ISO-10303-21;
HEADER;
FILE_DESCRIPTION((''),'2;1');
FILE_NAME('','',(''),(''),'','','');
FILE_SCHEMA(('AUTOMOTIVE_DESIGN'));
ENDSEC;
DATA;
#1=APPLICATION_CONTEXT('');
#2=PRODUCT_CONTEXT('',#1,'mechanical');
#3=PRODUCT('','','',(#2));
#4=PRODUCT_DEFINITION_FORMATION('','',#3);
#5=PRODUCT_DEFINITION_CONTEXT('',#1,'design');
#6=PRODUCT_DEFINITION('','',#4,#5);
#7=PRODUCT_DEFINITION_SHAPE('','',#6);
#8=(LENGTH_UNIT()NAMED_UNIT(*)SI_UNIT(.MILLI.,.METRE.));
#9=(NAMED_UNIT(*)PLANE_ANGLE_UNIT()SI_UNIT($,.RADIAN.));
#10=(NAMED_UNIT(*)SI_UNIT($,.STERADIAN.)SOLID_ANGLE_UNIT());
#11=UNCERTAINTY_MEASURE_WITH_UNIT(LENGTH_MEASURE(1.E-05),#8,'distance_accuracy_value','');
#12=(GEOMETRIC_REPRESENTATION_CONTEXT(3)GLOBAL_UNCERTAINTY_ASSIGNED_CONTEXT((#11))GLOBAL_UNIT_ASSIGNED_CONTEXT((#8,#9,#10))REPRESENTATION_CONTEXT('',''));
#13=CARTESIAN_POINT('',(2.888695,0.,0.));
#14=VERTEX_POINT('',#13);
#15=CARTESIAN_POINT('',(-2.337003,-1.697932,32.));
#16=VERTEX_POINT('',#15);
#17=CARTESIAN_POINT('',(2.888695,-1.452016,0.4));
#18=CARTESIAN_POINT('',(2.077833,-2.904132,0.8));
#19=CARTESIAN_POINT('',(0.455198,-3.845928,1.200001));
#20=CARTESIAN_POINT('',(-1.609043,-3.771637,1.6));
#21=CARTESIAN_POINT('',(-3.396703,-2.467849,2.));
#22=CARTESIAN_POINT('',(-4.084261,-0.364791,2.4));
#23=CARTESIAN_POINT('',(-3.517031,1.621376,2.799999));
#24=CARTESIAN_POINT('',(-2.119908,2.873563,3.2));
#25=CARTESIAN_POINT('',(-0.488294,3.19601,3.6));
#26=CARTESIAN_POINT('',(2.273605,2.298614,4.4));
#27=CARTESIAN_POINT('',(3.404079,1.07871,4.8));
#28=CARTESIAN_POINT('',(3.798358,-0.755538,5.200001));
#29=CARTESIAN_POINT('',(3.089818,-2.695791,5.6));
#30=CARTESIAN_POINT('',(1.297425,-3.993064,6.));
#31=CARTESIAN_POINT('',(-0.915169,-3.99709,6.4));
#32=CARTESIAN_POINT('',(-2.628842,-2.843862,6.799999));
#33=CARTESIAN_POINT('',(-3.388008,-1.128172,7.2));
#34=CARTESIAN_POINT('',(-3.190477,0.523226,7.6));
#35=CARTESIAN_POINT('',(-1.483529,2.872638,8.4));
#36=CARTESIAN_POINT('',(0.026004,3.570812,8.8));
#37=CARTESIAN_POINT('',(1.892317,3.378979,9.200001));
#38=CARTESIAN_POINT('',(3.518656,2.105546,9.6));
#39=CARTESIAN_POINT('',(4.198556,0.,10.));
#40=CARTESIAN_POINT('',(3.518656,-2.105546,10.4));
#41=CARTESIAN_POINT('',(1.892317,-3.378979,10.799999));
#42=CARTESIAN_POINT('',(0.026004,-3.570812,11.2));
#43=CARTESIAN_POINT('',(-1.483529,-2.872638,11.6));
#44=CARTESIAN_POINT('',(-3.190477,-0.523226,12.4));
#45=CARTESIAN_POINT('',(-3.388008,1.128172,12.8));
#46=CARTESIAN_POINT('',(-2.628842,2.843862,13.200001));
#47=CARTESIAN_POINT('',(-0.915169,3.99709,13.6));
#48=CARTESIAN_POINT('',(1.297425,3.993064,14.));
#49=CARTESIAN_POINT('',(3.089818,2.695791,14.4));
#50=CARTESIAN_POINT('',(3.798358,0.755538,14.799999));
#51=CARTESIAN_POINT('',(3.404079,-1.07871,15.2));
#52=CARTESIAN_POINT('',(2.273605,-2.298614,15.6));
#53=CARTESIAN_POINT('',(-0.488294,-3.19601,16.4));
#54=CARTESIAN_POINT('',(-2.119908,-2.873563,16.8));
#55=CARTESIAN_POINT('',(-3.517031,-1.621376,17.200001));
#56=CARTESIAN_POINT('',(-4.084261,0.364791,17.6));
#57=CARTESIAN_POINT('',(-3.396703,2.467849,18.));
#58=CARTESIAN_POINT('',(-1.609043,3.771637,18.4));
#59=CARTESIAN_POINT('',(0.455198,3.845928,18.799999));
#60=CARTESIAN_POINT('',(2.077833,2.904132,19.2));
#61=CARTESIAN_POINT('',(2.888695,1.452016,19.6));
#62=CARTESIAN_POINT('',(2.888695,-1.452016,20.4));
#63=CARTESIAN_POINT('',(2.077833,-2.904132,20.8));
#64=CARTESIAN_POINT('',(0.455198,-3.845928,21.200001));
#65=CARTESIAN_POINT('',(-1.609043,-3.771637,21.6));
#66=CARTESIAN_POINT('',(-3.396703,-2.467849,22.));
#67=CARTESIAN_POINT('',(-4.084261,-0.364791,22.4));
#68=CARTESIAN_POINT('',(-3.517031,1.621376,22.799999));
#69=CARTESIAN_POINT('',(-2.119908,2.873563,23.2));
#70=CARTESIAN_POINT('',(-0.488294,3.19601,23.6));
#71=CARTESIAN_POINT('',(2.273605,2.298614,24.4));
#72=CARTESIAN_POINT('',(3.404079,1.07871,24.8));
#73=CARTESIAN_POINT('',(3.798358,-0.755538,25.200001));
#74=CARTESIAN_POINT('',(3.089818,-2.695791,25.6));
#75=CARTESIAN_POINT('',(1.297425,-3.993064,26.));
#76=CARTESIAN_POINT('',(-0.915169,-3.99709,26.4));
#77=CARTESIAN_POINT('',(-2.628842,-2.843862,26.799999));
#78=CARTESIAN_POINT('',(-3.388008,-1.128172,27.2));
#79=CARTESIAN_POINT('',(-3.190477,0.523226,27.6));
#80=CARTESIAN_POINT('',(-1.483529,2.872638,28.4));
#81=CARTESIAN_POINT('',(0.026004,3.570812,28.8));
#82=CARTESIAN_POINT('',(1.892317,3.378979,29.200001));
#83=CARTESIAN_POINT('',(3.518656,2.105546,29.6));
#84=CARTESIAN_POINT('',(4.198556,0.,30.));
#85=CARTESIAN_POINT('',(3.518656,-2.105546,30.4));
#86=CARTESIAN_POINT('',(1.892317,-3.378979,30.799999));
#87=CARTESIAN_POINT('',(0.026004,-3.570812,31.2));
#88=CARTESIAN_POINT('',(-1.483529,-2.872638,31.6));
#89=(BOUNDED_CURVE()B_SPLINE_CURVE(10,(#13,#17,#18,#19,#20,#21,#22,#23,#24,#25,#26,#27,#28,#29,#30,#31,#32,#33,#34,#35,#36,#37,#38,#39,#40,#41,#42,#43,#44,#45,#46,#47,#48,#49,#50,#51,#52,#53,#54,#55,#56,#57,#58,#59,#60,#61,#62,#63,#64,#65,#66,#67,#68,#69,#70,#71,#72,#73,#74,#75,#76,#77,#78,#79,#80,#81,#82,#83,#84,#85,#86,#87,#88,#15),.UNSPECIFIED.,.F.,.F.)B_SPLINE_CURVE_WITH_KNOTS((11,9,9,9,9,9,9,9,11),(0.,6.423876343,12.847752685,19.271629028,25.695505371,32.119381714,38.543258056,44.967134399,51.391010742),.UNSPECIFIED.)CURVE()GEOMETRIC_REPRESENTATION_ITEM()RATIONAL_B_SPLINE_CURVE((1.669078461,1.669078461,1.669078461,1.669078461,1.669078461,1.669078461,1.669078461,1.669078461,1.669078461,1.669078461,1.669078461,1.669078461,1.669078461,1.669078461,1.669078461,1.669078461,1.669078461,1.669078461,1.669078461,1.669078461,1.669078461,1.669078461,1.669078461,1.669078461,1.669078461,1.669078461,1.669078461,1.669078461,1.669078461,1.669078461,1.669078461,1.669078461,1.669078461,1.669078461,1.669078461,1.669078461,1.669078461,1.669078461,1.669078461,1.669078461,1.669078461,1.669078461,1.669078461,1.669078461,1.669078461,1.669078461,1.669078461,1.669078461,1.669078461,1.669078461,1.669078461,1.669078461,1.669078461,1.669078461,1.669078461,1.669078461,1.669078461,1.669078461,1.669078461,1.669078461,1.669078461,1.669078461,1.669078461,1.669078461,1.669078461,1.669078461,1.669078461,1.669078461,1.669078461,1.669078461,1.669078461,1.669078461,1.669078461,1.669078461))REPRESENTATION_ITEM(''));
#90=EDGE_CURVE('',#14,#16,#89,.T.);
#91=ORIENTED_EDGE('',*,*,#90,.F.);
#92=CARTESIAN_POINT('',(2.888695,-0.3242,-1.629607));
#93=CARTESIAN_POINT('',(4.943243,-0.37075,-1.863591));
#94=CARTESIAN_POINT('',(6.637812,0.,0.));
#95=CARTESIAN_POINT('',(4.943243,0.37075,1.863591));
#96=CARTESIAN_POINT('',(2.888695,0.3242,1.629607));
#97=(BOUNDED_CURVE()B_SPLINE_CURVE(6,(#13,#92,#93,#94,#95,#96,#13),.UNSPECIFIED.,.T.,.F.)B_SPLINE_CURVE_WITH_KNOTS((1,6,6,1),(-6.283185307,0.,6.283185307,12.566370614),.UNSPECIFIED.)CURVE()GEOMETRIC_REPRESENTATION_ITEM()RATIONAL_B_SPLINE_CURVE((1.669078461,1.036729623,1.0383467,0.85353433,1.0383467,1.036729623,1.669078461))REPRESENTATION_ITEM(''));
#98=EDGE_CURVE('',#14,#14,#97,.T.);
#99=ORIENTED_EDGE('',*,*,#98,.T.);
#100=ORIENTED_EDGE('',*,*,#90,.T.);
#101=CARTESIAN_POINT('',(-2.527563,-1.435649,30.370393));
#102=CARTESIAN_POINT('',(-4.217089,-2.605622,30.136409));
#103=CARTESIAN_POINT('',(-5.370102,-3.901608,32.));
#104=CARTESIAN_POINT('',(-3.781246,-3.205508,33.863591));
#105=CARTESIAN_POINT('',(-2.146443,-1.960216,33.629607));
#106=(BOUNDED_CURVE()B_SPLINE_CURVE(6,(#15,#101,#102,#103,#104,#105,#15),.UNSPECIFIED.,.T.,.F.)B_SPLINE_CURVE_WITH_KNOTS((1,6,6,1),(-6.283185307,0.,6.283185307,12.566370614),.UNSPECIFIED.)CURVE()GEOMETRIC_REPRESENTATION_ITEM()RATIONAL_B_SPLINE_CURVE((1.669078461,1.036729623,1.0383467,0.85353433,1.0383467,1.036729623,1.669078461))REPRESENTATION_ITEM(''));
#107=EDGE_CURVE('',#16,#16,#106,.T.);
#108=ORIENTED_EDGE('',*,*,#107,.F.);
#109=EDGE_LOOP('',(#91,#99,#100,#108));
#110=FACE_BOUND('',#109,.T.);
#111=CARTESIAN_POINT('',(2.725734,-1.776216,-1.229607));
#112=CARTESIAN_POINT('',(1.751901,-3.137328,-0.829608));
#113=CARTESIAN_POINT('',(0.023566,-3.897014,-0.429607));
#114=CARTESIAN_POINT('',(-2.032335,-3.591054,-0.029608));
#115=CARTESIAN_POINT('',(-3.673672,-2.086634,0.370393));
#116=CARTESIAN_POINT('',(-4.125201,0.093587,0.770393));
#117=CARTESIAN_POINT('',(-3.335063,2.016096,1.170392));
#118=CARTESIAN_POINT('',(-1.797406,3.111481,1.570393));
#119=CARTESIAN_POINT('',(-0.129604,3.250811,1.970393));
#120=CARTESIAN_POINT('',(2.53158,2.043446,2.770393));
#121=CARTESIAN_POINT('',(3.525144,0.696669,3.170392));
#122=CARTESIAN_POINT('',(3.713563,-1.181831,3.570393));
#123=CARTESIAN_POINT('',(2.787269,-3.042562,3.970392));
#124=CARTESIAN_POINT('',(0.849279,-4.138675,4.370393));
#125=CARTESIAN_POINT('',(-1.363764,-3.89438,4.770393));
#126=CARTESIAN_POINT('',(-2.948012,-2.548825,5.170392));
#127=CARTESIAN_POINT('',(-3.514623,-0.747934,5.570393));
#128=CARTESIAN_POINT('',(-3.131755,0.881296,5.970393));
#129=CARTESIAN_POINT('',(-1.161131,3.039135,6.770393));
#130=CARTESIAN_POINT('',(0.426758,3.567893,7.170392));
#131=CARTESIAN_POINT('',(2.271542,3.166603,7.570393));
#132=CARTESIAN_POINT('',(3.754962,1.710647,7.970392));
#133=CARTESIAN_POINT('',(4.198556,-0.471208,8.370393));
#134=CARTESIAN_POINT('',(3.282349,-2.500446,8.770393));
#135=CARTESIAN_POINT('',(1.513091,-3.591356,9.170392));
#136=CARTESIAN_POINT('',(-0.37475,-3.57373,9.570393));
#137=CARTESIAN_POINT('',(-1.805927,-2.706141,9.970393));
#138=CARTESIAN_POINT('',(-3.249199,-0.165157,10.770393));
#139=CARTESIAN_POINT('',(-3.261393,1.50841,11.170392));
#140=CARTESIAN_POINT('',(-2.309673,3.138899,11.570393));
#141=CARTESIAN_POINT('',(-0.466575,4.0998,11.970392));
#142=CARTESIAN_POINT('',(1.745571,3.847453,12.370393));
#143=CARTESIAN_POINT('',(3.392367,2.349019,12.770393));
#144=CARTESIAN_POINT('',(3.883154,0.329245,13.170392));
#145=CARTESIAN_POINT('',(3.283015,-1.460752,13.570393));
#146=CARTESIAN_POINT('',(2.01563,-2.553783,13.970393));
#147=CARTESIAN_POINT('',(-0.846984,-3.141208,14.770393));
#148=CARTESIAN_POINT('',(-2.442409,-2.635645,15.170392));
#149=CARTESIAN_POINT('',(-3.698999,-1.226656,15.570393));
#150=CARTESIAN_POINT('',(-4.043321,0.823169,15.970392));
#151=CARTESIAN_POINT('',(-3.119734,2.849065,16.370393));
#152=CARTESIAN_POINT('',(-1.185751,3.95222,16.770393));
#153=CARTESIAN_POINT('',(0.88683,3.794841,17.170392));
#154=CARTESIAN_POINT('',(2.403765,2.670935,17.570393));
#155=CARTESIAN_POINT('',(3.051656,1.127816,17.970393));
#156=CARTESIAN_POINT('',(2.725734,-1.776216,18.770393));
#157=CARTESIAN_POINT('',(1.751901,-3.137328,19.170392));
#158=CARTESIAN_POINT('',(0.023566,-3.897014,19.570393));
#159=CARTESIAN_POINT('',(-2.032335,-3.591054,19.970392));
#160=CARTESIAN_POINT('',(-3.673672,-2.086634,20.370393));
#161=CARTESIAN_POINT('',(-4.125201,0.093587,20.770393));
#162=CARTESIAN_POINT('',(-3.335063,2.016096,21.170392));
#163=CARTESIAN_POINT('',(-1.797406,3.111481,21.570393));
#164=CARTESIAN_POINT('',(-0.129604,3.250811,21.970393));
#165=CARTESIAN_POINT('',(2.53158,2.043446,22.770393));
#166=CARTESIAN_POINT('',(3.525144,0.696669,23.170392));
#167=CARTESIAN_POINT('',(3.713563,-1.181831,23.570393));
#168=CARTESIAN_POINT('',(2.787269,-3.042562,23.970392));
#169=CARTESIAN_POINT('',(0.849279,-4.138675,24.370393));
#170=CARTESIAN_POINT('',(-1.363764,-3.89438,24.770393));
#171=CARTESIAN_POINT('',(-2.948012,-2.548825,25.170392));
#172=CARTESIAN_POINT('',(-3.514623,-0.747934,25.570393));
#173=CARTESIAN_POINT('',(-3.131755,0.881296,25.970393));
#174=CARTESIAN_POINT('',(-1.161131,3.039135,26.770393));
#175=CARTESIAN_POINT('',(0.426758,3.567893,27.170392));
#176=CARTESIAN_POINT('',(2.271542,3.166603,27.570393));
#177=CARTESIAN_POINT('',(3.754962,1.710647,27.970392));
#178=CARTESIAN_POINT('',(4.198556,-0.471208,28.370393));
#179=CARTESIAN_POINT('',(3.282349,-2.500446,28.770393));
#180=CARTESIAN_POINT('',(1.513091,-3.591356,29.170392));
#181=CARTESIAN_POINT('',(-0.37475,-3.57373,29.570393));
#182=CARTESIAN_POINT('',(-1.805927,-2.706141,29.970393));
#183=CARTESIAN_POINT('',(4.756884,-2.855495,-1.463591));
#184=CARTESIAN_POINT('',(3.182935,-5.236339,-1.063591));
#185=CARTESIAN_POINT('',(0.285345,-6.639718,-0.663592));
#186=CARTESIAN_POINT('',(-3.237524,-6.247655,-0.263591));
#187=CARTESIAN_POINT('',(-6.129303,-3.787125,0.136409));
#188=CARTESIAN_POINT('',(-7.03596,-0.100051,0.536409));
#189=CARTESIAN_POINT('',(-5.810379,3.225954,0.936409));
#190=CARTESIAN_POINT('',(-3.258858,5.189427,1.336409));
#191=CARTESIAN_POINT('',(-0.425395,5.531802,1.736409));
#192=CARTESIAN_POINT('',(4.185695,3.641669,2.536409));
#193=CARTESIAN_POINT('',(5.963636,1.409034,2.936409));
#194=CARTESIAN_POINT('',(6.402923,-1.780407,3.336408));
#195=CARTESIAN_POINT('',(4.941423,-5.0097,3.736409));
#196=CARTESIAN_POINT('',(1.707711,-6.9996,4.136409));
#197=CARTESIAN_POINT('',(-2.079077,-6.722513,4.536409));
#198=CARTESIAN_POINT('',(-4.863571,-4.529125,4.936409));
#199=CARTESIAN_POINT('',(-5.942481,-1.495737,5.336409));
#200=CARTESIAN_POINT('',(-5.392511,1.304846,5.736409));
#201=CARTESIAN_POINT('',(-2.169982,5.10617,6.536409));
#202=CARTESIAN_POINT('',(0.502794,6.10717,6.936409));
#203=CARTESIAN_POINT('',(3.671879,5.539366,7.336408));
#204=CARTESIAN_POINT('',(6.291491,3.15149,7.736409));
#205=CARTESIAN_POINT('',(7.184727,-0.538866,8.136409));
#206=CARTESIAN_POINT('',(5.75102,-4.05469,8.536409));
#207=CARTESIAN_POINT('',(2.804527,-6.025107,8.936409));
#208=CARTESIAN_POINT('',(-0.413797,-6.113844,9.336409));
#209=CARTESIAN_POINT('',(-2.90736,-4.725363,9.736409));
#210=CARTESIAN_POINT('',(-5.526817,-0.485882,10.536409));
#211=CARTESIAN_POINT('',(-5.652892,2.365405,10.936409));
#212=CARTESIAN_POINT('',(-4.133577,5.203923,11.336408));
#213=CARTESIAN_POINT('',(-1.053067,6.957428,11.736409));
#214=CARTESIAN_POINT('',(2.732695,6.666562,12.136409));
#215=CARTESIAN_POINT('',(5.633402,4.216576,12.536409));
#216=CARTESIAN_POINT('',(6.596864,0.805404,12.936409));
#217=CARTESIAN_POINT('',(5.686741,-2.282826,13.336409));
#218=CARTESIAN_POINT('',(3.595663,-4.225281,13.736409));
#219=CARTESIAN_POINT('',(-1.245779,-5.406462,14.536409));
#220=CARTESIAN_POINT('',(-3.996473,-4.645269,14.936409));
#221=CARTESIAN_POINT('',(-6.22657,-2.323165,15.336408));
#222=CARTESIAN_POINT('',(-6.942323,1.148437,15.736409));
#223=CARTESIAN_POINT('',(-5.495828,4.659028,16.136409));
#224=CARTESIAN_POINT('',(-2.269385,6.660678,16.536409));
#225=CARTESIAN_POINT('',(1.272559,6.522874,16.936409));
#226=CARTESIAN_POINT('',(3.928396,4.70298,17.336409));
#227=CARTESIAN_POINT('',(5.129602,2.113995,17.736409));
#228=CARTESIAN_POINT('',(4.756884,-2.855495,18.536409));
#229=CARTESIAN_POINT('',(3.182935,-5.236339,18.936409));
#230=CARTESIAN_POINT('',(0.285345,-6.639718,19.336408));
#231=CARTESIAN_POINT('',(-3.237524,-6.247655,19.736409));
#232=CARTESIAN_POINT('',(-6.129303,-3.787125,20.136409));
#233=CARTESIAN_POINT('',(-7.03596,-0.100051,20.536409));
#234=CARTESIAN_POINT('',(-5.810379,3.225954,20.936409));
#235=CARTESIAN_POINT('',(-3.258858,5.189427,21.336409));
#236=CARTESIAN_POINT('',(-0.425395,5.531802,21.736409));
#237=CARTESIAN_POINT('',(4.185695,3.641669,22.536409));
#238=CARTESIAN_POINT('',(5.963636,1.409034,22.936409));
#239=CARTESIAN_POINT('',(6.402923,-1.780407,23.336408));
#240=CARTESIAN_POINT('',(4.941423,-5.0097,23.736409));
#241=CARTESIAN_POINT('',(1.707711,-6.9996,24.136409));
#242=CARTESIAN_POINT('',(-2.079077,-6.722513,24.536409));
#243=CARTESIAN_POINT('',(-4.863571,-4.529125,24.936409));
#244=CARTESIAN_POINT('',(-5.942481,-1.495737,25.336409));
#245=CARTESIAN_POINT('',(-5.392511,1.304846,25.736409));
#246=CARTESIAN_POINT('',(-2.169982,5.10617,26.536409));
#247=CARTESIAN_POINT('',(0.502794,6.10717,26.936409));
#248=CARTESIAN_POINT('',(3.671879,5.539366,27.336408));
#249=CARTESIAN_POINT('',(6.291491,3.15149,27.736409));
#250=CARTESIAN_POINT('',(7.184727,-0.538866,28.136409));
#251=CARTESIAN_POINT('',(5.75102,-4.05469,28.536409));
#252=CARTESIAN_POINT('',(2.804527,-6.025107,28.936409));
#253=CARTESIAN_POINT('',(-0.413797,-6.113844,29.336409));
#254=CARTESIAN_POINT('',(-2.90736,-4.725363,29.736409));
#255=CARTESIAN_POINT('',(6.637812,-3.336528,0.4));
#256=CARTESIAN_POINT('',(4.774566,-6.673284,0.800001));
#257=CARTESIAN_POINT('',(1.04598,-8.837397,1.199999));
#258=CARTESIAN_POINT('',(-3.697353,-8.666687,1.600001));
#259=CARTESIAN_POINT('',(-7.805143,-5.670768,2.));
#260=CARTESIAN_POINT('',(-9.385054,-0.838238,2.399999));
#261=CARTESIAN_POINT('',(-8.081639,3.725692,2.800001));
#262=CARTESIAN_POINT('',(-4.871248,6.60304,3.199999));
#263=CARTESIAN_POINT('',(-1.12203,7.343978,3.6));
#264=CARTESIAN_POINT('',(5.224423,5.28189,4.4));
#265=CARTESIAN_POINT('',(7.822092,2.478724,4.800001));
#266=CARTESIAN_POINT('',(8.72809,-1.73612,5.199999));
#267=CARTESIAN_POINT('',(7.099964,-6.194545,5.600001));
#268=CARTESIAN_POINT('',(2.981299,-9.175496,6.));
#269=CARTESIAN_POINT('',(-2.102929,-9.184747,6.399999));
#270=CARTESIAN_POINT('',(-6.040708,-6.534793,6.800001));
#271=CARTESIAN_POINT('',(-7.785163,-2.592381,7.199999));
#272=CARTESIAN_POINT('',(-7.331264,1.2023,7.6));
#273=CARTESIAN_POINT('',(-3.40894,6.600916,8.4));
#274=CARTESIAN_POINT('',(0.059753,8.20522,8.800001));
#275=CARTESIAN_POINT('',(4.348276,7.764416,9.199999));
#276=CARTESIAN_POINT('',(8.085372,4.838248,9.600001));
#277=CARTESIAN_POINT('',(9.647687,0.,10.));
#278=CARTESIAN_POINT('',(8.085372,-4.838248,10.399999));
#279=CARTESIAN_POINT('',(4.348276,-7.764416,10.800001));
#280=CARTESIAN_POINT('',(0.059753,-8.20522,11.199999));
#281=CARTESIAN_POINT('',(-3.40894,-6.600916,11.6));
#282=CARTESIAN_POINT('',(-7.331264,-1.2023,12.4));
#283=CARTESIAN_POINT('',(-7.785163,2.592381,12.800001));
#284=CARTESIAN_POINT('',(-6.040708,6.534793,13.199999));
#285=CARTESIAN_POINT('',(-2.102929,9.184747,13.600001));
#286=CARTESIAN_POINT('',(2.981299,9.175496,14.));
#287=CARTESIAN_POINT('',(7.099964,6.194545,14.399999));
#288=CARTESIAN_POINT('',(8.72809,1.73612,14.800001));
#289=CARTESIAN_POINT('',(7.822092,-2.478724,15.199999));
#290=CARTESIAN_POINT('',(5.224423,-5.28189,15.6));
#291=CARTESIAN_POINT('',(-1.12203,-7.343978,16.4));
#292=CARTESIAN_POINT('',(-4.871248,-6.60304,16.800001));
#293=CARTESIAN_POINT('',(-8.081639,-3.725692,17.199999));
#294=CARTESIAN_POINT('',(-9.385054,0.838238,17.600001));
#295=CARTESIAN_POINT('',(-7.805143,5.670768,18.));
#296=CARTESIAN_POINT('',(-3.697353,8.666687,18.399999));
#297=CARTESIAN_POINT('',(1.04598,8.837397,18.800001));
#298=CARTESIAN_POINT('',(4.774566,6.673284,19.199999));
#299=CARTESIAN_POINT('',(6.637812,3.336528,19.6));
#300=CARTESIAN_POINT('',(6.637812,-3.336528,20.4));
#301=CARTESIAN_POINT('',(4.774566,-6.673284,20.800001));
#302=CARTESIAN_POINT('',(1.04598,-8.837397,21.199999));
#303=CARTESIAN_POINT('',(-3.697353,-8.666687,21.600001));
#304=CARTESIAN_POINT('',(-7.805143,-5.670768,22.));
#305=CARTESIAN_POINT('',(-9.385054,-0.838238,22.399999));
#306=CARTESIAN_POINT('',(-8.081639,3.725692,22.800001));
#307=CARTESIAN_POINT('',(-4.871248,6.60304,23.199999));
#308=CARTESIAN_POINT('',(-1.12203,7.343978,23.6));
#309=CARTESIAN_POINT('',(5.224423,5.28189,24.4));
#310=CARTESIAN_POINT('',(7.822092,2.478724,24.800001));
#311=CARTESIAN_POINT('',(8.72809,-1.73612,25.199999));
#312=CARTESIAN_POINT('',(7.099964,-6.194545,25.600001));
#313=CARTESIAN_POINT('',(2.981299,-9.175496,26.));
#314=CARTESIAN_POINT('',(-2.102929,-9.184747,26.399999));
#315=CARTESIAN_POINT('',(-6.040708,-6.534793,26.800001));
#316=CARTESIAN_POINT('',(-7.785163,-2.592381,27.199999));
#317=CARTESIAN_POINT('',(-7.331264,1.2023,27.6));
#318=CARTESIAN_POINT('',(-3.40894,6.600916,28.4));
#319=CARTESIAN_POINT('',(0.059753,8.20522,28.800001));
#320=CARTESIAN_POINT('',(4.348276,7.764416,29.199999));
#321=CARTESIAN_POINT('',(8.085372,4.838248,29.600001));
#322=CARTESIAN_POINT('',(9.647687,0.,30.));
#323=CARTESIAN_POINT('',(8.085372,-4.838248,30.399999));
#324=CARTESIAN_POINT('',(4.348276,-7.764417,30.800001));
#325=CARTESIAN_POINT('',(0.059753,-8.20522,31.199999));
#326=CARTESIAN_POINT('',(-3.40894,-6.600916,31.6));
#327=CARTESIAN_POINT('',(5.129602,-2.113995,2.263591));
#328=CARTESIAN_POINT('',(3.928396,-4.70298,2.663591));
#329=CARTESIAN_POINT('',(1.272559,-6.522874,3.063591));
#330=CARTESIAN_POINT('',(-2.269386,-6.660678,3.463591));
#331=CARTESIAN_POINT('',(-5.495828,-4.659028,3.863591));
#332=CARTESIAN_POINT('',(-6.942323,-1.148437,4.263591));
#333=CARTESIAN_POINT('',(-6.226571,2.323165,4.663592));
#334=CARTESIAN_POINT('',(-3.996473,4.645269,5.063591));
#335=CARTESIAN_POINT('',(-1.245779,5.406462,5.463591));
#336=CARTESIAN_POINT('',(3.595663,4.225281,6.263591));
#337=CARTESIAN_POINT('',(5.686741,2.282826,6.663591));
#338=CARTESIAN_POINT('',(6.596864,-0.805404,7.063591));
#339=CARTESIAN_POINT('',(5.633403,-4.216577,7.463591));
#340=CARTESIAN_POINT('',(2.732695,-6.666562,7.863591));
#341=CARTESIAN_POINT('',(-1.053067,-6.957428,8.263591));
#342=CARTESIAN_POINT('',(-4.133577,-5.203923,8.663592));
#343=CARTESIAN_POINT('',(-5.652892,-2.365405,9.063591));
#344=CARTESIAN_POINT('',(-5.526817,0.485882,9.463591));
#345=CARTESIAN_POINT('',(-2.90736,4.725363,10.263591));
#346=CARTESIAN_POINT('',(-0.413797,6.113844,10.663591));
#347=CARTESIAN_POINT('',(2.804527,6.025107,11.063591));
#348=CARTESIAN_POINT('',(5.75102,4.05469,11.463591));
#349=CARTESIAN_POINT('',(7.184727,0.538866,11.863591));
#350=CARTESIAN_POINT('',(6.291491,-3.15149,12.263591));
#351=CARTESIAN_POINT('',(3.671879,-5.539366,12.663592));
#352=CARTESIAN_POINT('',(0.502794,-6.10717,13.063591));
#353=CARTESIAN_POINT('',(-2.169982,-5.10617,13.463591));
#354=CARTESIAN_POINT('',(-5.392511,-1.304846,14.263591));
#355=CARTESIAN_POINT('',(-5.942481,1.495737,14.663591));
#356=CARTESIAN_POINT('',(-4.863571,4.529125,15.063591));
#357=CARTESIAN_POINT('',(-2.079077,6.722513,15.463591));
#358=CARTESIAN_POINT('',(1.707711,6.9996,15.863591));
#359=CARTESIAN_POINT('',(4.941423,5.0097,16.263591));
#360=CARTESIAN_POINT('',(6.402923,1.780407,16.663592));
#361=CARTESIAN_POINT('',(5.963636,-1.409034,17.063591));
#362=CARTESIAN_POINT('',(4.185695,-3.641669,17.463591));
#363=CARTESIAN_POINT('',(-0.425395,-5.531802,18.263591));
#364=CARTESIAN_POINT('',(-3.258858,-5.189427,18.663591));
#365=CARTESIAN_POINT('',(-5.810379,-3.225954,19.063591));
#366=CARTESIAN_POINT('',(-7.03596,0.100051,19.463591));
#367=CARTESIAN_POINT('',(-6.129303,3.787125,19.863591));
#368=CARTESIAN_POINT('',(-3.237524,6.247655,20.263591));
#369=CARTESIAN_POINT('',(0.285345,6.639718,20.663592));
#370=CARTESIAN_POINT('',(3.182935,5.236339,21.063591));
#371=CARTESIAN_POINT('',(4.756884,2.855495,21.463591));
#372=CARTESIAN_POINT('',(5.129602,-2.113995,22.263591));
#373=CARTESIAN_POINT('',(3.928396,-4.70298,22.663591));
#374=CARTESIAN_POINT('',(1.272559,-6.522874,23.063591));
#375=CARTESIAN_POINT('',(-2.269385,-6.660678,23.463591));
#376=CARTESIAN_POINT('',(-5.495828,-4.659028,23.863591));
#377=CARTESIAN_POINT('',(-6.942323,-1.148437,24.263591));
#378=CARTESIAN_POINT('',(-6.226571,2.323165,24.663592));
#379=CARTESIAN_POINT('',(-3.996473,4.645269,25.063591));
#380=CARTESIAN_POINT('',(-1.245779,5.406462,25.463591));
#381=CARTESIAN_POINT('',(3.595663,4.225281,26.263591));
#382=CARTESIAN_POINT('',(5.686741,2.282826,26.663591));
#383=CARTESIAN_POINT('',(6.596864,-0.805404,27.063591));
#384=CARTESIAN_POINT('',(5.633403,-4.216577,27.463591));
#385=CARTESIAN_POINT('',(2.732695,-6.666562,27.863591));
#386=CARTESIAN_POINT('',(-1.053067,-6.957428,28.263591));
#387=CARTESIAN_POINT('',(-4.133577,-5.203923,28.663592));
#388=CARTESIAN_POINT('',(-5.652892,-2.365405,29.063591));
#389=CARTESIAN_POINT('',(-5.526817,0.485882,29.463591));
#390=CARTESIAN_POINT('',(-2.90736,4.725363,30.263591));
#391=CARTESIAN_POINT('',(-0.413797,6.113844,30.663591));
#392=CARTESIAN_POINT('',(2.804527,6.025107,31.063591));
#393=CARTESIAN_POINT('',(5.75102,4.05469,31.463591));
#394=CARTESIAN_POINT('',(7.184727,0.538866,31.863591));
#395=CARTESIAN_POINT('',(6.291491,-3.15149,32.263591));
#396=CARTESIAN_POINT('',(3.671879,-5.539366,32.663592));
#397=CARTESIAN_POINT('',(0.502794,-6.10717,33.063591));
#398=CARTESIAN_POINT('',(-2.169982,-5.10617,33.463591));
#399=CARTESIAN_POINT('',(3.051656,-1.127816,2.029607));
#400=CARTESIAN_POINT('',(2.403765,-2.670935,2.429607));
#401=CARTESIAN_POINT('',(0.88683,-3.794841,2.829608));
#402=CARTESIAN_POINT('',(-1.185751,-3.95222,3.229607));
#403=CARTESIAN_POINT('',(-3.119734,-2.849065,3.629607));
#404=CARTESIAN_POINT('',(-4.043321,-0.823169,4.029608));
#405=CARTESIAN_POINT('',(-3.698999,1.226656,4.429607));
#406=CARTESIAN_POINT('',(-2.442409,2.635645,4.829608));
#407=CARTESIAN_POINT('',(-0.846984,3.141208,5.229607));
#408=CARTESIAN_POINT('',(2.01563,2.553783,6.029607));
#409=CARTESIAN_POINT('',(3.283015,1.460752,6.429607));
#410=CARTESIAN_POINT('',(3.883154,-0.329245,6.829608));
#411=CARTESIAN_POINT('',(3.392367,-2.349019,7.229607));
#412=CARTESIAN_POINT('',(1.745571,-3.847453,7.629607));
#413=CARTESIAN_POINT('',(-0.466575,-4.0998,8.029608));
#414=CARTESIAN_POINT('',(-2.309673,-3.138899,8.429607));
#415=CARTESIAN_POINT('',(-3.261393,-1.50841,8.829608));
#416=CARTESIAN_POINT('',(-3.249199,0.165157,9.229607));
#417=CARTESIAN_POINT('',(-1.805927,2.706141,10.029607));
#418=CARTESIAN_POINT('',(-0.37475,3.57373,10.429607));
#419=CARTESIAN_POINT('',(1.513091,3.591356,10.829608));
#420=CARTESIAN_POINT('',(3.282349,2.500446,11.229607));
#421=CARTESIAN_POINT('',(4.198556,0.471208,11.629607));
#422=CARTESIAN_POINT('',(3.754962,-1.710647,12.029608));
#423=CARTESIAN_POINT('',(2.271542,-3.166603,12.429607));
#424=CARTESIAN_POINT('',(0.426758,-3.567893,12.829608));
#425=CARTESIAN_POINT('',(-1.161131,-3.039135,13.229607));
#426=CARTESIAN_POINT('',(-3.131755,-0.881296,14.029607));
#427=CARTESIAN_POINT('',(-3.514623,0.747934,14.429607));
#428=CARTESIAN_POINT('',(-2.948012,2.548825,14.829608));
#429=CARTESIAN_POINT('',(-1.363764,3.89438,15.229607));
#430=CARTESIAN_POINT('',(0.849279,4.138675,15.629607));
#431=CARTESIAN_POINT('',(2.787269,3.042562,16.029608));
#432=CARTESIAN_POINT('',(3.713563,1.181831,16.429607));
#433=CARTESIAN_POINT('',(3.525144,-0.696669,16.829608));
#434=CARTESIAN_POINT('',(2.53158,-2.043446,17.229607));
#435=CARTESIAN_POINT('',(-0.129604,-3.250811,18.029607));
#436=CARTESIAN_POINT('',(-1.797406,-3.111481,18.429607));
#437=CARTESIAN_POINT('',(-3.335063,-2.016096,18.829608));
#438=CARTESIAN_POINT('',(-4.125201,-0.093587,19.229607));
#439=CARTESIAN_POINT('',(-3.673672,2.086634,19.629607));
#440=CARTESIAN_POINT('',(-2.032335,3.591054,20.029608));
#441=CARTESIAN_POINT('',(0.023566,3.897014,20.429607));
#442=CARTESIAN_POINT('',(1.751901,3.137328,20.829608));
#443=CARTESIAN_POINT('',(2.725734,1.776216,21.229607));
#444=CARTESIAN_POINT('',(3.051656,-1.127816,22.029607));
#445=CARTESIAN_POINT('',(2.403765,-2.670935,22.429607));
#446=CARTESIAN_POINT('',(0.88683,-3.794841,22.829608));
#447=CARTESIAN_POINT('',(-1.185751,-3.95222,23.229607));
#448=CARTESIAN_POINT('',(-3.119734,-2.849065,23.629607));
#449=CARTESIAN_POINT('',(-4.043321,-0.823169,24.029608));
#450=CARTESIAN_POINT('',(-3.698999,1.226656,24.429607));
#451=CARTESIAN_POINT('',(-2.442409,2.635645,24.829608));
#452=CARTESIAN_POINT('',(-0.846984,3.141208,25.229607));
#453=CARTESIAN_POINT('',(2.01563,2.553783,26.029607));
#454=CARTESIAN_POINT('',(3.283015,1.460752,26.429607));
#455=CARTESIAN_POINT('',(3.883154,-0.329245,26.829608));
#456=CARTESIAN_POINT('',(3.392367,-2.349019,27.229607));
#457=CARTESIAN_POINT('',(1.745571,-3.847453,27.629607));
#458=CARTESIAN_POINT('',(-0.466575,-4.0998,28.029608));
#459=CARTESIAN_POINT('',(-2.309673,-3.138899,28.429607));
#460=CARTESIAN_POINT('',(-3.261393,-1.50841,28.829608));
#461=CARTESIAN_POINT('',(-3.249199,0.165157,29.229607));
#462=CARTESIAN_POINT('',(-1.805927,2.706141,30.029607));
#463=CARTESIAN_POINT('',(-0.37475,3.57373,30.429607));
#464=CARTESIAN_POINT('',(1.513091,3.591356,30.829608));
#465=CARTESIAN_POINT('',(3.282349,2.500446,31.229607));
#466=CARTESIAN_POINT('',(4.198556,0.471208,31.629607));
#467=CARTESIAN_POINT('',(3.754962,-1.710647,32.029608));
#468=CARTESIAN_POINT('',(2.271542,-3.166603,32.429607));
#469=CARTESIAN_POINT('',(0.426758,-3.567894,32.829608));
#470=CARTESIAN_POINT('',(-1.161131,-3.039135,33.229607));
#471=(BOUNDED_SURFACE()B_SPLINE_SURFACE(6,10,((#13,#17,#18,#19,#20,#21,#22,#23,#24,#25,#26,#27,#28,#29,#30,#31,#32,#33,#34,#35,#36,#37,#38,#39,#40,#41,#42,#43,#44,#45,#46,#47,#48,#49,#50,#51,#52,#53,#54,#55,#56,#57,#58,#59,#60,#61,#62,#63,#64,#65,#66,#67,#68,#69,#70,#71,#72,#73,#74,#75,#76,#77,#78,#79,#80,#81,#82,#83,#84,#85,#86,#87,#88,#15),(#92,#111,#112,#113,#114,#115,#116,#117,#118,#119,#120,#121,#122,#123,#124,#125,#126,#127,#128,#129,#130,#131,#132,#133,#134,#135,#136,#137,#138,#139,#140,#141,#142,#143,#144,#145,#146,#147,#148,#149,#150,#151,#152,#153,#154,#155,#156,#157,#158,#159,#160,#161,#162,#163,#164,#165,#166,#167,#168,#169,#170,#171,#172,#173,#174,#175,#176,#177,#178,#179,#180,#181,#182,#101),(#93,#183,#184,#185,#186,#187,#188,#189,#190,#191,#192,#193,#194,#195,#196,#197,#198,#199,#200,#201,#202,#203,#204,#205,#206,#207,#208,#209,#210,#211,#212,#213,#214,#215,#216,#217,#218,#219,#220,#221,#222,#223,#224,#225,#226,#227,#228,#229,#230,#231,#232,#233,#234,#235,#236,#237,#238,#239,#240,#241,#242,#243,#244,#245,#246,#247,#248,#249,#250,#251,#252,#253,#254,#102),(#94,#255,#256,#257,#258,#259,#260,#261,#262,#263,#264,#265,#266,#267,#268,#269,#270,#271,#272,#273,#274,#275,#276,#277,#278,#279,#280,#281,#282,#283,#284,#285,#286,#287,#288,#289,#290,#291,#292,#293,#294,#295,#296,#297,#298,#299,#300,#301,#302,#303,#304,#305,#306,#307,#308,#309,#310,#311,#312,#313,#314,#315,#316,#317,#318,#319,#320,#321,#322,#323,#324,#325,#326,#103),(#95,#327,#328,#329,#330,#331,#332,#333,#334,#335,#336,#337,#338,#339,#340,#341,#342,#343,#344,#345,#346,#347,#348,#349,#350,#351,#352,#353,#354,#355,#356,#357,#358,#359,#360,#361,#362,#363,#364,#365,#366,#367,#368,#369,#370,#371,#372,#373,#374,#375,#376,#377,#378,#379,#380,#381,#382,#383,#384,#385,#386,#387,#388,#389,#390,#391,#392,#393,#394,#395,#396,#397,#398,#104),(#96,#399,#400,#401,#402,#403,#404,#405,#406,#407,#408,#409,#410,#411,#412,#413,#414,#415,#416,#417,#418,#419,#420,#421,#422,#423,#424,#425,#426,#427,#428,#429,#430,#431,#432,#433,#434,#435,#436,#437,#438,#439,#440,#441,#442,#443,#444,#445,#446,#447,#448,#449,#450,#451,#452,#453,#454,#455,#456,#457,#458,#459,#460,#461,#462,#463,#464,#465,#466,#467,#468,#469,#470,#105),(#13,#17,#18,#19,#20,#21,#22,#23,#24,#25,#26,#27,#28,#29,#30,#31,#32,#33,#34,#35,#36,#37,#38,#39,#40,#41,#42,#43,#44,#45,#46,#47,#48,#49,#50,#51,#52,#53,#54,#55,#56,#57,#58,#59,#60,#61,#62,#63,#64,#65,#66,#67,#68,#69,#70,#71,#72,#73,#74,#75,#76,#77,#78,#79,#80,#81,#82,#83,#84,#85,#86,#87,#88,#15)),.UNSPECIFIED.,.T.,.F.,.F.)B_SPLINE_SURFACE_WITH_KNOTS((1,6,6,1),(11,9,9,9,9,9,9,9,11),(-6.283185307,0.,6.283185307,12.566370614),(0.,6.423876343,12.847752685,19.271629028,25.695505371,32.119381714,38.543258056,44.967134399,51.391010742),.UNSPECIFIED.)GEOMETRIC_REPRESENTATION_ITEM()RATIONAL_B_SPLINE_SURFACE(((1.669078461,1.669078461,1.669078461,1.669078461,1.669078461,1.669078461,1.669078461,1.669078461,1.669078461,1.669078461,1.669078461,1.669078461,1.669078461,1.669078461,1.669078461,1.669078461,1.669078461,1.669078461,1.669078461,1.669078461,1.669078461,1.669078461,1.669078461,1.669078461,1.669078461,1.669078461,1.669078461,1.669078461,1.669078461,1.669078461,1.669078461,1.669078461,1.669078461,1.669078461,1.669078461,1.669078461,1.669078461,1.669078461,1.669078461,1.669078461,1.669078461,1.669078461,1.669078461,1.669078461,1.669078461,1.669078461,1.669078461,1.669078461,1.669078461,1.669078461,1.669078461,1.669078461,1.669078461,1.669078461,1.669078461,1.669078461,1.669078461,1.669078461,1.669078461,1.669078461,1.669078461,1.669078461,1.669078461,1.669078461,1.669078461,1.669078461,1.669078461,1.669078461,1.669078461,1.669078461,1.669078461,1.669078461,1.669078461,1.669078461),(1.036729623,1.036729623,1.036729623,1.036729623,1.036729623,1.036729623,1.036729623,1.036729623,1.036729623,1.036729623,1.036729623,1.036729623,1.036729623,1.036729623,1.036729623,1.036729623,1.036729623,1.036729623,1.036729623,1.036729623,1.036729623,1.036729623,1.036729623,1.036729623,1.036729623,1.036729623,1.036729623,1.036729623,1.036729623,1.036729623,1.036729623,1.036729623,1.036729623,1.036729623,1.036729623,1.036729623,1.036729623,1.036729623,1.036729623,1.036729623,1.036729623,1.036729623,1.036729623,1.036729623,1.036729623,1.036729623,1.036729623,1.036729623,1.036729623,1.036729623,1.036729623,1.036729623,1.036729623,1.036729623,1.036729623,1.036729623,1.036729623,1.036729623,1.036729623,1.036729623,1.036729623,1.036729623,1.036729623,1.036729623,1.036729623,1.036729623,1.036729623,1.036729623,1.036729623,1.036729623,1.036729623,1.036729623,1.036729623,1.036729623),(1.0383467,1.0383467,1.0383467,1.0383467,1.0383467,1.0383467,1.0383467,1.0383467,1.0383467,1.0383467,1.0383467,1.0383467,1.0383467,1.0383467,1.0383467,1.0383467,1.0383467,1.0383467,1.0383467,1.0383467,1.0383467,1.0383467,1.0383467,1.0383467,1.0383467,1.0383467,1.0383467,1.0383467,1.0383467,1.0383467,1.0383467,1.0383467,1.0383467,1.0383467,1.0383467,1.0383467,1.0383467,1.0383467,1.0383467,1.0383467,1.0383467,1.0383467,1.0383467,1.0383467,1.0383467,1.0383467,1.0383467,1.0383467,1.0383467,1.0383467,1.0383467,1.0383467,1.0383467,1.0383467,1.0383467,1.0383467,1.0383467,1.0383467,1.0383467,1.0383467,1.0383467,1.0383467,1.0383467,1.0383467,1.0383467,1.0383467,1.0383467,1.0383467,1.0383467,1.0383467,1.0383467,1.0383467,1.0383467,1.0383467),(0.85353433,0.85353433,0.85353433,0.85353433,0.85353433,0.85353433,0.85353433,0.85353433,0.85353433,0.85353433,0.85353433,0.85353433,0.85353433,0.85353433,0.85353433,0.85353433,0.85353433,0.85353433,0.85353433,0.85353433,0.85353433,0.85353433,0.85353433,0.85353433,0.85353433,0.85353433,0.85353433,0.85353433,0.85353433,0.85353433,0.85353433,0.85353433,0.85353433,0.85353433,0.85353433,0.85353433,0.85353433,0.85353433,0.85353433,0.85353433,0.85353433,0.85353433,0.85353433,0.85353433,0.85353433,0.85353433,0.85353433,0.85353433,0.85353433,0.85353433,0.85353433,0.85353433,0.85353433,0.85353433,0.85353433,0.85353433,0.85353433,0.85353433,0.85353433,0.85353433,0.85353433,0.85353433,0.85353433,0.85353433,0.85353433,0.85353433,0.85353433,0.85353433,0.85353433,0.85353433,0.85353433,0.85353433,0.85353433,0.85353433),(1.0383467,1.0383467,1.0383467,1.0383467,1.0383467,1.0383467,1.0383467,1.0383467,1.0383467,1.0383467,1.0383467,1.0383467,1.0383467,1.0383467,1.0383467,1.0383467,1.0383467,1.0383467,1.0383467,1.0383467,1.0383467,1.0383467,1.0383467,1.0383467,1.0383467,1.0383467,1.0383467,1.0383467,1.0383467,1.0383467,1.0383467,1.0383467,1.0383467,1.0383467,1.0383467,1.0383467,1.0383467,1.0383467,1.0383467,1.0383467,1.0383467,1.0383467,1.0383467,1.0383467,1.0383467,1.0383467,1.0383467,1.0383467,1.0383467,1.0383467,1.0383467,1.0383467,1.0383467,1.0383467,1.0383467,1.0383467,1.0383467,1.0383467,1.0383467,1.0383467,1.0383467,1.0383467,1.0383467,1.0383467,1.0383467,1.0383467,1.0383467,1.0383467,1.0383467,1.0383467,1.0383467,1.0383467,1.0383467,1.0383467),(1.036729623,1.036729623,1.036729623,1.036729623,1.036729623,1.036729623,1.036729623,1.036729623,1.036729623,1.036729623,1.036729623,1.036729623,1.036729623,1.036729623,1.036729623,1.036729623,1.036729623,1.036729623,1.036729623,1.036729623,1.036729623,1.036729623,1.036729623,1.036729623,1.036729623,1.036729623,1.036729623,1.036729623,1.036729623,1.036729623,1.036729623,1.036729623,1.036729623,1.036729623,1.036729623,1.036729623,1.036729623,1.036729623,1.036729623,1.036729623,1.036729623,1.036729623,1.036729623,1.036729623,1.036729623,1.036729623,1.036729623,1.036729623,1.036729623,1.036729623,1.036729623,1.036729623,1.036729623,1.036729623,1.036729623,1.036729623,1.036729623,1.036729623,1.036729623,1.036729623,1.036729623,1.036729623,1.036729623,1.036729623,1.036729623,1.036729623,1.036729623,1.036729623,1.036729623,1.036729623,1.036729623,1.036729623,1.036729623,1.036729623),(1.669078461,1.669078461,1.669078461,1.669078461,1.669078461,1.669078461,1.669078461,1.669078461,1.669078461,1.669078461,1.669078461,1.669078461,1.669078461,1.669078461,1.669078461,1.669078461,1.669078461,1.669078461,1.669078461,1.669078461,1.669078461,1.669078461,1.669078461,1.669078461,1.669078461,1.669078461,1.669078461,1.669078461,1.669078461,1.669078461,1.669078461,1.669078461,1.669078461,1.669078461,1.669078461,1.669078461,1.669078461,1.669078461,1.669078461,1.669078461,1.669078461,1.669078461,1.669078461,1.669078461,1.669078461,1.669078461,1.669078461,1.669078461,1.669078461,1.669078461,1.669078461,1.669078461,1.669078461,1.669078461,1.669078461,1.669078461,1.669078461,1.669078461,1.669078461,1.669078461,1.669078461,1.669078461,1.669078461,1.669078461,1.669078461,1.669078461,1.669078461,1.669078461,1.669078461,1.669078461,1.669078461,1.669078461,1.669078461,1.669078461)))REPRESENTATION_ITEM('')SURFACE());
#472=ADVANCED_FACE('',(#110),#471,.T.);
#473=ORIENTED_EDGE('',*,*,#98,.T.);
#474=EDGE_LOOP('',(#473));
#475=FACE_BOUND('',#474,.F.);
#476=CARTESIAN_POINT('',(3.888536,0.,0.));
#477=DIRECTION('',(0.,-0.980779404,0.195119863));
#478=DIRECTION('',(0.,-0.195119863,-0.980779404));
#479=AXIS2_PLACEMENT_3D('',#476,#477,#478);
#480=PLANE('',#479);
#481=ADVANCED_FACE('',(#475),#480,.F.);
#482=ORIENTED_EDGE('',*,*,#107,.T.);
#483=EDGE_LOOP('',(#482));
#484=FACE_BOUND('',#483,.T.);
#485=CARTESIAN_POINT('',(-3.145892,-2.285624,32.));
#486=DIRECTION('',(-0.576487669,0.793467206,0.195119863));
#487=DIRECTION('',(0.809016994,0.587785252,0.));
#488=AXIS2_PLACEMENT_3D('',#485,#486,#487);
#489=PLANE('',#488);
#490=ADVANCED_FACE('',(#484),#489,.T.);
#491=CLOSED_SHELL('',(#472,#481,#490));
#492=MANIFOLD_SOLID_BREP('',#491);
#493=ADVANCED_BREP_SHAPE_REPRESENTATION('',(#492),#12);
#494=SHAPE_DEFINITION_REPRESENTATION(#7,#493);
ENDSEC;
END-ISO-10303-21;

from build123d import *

# Parameters (mm, degrees)
SWEEP1_PITCH  = 5
SWEEP1_HEIGHT = 32
SWEEP1_RADIUS = 4
SKETCH5_R     = 1


with BuildPart() as part:
    # Sweep1: sweep along a helix
    with BuildLine() as sweep1_path:
        Helix(SWEEP1_PITCH, SWEEP1_HEIGHT, SWEEP1_RADIUS, center=(0, 0, 0), direction=(0, 0, 1), lefthand=True)
    # Sketch5 → Sweep1 (sweep)
    with BuildSketch(Plane(origin=(4, 0, 0), x_dir=(-1, 0, 0), z_dir=(0, -0.9807794039193418, 0.19511986277060697))):
        with Locations((0.111305282, 0)):
            Circle(SKETCH5_R)
    sweep(path=sweep1_path.line, is_frenet=True)


solid = part.part
